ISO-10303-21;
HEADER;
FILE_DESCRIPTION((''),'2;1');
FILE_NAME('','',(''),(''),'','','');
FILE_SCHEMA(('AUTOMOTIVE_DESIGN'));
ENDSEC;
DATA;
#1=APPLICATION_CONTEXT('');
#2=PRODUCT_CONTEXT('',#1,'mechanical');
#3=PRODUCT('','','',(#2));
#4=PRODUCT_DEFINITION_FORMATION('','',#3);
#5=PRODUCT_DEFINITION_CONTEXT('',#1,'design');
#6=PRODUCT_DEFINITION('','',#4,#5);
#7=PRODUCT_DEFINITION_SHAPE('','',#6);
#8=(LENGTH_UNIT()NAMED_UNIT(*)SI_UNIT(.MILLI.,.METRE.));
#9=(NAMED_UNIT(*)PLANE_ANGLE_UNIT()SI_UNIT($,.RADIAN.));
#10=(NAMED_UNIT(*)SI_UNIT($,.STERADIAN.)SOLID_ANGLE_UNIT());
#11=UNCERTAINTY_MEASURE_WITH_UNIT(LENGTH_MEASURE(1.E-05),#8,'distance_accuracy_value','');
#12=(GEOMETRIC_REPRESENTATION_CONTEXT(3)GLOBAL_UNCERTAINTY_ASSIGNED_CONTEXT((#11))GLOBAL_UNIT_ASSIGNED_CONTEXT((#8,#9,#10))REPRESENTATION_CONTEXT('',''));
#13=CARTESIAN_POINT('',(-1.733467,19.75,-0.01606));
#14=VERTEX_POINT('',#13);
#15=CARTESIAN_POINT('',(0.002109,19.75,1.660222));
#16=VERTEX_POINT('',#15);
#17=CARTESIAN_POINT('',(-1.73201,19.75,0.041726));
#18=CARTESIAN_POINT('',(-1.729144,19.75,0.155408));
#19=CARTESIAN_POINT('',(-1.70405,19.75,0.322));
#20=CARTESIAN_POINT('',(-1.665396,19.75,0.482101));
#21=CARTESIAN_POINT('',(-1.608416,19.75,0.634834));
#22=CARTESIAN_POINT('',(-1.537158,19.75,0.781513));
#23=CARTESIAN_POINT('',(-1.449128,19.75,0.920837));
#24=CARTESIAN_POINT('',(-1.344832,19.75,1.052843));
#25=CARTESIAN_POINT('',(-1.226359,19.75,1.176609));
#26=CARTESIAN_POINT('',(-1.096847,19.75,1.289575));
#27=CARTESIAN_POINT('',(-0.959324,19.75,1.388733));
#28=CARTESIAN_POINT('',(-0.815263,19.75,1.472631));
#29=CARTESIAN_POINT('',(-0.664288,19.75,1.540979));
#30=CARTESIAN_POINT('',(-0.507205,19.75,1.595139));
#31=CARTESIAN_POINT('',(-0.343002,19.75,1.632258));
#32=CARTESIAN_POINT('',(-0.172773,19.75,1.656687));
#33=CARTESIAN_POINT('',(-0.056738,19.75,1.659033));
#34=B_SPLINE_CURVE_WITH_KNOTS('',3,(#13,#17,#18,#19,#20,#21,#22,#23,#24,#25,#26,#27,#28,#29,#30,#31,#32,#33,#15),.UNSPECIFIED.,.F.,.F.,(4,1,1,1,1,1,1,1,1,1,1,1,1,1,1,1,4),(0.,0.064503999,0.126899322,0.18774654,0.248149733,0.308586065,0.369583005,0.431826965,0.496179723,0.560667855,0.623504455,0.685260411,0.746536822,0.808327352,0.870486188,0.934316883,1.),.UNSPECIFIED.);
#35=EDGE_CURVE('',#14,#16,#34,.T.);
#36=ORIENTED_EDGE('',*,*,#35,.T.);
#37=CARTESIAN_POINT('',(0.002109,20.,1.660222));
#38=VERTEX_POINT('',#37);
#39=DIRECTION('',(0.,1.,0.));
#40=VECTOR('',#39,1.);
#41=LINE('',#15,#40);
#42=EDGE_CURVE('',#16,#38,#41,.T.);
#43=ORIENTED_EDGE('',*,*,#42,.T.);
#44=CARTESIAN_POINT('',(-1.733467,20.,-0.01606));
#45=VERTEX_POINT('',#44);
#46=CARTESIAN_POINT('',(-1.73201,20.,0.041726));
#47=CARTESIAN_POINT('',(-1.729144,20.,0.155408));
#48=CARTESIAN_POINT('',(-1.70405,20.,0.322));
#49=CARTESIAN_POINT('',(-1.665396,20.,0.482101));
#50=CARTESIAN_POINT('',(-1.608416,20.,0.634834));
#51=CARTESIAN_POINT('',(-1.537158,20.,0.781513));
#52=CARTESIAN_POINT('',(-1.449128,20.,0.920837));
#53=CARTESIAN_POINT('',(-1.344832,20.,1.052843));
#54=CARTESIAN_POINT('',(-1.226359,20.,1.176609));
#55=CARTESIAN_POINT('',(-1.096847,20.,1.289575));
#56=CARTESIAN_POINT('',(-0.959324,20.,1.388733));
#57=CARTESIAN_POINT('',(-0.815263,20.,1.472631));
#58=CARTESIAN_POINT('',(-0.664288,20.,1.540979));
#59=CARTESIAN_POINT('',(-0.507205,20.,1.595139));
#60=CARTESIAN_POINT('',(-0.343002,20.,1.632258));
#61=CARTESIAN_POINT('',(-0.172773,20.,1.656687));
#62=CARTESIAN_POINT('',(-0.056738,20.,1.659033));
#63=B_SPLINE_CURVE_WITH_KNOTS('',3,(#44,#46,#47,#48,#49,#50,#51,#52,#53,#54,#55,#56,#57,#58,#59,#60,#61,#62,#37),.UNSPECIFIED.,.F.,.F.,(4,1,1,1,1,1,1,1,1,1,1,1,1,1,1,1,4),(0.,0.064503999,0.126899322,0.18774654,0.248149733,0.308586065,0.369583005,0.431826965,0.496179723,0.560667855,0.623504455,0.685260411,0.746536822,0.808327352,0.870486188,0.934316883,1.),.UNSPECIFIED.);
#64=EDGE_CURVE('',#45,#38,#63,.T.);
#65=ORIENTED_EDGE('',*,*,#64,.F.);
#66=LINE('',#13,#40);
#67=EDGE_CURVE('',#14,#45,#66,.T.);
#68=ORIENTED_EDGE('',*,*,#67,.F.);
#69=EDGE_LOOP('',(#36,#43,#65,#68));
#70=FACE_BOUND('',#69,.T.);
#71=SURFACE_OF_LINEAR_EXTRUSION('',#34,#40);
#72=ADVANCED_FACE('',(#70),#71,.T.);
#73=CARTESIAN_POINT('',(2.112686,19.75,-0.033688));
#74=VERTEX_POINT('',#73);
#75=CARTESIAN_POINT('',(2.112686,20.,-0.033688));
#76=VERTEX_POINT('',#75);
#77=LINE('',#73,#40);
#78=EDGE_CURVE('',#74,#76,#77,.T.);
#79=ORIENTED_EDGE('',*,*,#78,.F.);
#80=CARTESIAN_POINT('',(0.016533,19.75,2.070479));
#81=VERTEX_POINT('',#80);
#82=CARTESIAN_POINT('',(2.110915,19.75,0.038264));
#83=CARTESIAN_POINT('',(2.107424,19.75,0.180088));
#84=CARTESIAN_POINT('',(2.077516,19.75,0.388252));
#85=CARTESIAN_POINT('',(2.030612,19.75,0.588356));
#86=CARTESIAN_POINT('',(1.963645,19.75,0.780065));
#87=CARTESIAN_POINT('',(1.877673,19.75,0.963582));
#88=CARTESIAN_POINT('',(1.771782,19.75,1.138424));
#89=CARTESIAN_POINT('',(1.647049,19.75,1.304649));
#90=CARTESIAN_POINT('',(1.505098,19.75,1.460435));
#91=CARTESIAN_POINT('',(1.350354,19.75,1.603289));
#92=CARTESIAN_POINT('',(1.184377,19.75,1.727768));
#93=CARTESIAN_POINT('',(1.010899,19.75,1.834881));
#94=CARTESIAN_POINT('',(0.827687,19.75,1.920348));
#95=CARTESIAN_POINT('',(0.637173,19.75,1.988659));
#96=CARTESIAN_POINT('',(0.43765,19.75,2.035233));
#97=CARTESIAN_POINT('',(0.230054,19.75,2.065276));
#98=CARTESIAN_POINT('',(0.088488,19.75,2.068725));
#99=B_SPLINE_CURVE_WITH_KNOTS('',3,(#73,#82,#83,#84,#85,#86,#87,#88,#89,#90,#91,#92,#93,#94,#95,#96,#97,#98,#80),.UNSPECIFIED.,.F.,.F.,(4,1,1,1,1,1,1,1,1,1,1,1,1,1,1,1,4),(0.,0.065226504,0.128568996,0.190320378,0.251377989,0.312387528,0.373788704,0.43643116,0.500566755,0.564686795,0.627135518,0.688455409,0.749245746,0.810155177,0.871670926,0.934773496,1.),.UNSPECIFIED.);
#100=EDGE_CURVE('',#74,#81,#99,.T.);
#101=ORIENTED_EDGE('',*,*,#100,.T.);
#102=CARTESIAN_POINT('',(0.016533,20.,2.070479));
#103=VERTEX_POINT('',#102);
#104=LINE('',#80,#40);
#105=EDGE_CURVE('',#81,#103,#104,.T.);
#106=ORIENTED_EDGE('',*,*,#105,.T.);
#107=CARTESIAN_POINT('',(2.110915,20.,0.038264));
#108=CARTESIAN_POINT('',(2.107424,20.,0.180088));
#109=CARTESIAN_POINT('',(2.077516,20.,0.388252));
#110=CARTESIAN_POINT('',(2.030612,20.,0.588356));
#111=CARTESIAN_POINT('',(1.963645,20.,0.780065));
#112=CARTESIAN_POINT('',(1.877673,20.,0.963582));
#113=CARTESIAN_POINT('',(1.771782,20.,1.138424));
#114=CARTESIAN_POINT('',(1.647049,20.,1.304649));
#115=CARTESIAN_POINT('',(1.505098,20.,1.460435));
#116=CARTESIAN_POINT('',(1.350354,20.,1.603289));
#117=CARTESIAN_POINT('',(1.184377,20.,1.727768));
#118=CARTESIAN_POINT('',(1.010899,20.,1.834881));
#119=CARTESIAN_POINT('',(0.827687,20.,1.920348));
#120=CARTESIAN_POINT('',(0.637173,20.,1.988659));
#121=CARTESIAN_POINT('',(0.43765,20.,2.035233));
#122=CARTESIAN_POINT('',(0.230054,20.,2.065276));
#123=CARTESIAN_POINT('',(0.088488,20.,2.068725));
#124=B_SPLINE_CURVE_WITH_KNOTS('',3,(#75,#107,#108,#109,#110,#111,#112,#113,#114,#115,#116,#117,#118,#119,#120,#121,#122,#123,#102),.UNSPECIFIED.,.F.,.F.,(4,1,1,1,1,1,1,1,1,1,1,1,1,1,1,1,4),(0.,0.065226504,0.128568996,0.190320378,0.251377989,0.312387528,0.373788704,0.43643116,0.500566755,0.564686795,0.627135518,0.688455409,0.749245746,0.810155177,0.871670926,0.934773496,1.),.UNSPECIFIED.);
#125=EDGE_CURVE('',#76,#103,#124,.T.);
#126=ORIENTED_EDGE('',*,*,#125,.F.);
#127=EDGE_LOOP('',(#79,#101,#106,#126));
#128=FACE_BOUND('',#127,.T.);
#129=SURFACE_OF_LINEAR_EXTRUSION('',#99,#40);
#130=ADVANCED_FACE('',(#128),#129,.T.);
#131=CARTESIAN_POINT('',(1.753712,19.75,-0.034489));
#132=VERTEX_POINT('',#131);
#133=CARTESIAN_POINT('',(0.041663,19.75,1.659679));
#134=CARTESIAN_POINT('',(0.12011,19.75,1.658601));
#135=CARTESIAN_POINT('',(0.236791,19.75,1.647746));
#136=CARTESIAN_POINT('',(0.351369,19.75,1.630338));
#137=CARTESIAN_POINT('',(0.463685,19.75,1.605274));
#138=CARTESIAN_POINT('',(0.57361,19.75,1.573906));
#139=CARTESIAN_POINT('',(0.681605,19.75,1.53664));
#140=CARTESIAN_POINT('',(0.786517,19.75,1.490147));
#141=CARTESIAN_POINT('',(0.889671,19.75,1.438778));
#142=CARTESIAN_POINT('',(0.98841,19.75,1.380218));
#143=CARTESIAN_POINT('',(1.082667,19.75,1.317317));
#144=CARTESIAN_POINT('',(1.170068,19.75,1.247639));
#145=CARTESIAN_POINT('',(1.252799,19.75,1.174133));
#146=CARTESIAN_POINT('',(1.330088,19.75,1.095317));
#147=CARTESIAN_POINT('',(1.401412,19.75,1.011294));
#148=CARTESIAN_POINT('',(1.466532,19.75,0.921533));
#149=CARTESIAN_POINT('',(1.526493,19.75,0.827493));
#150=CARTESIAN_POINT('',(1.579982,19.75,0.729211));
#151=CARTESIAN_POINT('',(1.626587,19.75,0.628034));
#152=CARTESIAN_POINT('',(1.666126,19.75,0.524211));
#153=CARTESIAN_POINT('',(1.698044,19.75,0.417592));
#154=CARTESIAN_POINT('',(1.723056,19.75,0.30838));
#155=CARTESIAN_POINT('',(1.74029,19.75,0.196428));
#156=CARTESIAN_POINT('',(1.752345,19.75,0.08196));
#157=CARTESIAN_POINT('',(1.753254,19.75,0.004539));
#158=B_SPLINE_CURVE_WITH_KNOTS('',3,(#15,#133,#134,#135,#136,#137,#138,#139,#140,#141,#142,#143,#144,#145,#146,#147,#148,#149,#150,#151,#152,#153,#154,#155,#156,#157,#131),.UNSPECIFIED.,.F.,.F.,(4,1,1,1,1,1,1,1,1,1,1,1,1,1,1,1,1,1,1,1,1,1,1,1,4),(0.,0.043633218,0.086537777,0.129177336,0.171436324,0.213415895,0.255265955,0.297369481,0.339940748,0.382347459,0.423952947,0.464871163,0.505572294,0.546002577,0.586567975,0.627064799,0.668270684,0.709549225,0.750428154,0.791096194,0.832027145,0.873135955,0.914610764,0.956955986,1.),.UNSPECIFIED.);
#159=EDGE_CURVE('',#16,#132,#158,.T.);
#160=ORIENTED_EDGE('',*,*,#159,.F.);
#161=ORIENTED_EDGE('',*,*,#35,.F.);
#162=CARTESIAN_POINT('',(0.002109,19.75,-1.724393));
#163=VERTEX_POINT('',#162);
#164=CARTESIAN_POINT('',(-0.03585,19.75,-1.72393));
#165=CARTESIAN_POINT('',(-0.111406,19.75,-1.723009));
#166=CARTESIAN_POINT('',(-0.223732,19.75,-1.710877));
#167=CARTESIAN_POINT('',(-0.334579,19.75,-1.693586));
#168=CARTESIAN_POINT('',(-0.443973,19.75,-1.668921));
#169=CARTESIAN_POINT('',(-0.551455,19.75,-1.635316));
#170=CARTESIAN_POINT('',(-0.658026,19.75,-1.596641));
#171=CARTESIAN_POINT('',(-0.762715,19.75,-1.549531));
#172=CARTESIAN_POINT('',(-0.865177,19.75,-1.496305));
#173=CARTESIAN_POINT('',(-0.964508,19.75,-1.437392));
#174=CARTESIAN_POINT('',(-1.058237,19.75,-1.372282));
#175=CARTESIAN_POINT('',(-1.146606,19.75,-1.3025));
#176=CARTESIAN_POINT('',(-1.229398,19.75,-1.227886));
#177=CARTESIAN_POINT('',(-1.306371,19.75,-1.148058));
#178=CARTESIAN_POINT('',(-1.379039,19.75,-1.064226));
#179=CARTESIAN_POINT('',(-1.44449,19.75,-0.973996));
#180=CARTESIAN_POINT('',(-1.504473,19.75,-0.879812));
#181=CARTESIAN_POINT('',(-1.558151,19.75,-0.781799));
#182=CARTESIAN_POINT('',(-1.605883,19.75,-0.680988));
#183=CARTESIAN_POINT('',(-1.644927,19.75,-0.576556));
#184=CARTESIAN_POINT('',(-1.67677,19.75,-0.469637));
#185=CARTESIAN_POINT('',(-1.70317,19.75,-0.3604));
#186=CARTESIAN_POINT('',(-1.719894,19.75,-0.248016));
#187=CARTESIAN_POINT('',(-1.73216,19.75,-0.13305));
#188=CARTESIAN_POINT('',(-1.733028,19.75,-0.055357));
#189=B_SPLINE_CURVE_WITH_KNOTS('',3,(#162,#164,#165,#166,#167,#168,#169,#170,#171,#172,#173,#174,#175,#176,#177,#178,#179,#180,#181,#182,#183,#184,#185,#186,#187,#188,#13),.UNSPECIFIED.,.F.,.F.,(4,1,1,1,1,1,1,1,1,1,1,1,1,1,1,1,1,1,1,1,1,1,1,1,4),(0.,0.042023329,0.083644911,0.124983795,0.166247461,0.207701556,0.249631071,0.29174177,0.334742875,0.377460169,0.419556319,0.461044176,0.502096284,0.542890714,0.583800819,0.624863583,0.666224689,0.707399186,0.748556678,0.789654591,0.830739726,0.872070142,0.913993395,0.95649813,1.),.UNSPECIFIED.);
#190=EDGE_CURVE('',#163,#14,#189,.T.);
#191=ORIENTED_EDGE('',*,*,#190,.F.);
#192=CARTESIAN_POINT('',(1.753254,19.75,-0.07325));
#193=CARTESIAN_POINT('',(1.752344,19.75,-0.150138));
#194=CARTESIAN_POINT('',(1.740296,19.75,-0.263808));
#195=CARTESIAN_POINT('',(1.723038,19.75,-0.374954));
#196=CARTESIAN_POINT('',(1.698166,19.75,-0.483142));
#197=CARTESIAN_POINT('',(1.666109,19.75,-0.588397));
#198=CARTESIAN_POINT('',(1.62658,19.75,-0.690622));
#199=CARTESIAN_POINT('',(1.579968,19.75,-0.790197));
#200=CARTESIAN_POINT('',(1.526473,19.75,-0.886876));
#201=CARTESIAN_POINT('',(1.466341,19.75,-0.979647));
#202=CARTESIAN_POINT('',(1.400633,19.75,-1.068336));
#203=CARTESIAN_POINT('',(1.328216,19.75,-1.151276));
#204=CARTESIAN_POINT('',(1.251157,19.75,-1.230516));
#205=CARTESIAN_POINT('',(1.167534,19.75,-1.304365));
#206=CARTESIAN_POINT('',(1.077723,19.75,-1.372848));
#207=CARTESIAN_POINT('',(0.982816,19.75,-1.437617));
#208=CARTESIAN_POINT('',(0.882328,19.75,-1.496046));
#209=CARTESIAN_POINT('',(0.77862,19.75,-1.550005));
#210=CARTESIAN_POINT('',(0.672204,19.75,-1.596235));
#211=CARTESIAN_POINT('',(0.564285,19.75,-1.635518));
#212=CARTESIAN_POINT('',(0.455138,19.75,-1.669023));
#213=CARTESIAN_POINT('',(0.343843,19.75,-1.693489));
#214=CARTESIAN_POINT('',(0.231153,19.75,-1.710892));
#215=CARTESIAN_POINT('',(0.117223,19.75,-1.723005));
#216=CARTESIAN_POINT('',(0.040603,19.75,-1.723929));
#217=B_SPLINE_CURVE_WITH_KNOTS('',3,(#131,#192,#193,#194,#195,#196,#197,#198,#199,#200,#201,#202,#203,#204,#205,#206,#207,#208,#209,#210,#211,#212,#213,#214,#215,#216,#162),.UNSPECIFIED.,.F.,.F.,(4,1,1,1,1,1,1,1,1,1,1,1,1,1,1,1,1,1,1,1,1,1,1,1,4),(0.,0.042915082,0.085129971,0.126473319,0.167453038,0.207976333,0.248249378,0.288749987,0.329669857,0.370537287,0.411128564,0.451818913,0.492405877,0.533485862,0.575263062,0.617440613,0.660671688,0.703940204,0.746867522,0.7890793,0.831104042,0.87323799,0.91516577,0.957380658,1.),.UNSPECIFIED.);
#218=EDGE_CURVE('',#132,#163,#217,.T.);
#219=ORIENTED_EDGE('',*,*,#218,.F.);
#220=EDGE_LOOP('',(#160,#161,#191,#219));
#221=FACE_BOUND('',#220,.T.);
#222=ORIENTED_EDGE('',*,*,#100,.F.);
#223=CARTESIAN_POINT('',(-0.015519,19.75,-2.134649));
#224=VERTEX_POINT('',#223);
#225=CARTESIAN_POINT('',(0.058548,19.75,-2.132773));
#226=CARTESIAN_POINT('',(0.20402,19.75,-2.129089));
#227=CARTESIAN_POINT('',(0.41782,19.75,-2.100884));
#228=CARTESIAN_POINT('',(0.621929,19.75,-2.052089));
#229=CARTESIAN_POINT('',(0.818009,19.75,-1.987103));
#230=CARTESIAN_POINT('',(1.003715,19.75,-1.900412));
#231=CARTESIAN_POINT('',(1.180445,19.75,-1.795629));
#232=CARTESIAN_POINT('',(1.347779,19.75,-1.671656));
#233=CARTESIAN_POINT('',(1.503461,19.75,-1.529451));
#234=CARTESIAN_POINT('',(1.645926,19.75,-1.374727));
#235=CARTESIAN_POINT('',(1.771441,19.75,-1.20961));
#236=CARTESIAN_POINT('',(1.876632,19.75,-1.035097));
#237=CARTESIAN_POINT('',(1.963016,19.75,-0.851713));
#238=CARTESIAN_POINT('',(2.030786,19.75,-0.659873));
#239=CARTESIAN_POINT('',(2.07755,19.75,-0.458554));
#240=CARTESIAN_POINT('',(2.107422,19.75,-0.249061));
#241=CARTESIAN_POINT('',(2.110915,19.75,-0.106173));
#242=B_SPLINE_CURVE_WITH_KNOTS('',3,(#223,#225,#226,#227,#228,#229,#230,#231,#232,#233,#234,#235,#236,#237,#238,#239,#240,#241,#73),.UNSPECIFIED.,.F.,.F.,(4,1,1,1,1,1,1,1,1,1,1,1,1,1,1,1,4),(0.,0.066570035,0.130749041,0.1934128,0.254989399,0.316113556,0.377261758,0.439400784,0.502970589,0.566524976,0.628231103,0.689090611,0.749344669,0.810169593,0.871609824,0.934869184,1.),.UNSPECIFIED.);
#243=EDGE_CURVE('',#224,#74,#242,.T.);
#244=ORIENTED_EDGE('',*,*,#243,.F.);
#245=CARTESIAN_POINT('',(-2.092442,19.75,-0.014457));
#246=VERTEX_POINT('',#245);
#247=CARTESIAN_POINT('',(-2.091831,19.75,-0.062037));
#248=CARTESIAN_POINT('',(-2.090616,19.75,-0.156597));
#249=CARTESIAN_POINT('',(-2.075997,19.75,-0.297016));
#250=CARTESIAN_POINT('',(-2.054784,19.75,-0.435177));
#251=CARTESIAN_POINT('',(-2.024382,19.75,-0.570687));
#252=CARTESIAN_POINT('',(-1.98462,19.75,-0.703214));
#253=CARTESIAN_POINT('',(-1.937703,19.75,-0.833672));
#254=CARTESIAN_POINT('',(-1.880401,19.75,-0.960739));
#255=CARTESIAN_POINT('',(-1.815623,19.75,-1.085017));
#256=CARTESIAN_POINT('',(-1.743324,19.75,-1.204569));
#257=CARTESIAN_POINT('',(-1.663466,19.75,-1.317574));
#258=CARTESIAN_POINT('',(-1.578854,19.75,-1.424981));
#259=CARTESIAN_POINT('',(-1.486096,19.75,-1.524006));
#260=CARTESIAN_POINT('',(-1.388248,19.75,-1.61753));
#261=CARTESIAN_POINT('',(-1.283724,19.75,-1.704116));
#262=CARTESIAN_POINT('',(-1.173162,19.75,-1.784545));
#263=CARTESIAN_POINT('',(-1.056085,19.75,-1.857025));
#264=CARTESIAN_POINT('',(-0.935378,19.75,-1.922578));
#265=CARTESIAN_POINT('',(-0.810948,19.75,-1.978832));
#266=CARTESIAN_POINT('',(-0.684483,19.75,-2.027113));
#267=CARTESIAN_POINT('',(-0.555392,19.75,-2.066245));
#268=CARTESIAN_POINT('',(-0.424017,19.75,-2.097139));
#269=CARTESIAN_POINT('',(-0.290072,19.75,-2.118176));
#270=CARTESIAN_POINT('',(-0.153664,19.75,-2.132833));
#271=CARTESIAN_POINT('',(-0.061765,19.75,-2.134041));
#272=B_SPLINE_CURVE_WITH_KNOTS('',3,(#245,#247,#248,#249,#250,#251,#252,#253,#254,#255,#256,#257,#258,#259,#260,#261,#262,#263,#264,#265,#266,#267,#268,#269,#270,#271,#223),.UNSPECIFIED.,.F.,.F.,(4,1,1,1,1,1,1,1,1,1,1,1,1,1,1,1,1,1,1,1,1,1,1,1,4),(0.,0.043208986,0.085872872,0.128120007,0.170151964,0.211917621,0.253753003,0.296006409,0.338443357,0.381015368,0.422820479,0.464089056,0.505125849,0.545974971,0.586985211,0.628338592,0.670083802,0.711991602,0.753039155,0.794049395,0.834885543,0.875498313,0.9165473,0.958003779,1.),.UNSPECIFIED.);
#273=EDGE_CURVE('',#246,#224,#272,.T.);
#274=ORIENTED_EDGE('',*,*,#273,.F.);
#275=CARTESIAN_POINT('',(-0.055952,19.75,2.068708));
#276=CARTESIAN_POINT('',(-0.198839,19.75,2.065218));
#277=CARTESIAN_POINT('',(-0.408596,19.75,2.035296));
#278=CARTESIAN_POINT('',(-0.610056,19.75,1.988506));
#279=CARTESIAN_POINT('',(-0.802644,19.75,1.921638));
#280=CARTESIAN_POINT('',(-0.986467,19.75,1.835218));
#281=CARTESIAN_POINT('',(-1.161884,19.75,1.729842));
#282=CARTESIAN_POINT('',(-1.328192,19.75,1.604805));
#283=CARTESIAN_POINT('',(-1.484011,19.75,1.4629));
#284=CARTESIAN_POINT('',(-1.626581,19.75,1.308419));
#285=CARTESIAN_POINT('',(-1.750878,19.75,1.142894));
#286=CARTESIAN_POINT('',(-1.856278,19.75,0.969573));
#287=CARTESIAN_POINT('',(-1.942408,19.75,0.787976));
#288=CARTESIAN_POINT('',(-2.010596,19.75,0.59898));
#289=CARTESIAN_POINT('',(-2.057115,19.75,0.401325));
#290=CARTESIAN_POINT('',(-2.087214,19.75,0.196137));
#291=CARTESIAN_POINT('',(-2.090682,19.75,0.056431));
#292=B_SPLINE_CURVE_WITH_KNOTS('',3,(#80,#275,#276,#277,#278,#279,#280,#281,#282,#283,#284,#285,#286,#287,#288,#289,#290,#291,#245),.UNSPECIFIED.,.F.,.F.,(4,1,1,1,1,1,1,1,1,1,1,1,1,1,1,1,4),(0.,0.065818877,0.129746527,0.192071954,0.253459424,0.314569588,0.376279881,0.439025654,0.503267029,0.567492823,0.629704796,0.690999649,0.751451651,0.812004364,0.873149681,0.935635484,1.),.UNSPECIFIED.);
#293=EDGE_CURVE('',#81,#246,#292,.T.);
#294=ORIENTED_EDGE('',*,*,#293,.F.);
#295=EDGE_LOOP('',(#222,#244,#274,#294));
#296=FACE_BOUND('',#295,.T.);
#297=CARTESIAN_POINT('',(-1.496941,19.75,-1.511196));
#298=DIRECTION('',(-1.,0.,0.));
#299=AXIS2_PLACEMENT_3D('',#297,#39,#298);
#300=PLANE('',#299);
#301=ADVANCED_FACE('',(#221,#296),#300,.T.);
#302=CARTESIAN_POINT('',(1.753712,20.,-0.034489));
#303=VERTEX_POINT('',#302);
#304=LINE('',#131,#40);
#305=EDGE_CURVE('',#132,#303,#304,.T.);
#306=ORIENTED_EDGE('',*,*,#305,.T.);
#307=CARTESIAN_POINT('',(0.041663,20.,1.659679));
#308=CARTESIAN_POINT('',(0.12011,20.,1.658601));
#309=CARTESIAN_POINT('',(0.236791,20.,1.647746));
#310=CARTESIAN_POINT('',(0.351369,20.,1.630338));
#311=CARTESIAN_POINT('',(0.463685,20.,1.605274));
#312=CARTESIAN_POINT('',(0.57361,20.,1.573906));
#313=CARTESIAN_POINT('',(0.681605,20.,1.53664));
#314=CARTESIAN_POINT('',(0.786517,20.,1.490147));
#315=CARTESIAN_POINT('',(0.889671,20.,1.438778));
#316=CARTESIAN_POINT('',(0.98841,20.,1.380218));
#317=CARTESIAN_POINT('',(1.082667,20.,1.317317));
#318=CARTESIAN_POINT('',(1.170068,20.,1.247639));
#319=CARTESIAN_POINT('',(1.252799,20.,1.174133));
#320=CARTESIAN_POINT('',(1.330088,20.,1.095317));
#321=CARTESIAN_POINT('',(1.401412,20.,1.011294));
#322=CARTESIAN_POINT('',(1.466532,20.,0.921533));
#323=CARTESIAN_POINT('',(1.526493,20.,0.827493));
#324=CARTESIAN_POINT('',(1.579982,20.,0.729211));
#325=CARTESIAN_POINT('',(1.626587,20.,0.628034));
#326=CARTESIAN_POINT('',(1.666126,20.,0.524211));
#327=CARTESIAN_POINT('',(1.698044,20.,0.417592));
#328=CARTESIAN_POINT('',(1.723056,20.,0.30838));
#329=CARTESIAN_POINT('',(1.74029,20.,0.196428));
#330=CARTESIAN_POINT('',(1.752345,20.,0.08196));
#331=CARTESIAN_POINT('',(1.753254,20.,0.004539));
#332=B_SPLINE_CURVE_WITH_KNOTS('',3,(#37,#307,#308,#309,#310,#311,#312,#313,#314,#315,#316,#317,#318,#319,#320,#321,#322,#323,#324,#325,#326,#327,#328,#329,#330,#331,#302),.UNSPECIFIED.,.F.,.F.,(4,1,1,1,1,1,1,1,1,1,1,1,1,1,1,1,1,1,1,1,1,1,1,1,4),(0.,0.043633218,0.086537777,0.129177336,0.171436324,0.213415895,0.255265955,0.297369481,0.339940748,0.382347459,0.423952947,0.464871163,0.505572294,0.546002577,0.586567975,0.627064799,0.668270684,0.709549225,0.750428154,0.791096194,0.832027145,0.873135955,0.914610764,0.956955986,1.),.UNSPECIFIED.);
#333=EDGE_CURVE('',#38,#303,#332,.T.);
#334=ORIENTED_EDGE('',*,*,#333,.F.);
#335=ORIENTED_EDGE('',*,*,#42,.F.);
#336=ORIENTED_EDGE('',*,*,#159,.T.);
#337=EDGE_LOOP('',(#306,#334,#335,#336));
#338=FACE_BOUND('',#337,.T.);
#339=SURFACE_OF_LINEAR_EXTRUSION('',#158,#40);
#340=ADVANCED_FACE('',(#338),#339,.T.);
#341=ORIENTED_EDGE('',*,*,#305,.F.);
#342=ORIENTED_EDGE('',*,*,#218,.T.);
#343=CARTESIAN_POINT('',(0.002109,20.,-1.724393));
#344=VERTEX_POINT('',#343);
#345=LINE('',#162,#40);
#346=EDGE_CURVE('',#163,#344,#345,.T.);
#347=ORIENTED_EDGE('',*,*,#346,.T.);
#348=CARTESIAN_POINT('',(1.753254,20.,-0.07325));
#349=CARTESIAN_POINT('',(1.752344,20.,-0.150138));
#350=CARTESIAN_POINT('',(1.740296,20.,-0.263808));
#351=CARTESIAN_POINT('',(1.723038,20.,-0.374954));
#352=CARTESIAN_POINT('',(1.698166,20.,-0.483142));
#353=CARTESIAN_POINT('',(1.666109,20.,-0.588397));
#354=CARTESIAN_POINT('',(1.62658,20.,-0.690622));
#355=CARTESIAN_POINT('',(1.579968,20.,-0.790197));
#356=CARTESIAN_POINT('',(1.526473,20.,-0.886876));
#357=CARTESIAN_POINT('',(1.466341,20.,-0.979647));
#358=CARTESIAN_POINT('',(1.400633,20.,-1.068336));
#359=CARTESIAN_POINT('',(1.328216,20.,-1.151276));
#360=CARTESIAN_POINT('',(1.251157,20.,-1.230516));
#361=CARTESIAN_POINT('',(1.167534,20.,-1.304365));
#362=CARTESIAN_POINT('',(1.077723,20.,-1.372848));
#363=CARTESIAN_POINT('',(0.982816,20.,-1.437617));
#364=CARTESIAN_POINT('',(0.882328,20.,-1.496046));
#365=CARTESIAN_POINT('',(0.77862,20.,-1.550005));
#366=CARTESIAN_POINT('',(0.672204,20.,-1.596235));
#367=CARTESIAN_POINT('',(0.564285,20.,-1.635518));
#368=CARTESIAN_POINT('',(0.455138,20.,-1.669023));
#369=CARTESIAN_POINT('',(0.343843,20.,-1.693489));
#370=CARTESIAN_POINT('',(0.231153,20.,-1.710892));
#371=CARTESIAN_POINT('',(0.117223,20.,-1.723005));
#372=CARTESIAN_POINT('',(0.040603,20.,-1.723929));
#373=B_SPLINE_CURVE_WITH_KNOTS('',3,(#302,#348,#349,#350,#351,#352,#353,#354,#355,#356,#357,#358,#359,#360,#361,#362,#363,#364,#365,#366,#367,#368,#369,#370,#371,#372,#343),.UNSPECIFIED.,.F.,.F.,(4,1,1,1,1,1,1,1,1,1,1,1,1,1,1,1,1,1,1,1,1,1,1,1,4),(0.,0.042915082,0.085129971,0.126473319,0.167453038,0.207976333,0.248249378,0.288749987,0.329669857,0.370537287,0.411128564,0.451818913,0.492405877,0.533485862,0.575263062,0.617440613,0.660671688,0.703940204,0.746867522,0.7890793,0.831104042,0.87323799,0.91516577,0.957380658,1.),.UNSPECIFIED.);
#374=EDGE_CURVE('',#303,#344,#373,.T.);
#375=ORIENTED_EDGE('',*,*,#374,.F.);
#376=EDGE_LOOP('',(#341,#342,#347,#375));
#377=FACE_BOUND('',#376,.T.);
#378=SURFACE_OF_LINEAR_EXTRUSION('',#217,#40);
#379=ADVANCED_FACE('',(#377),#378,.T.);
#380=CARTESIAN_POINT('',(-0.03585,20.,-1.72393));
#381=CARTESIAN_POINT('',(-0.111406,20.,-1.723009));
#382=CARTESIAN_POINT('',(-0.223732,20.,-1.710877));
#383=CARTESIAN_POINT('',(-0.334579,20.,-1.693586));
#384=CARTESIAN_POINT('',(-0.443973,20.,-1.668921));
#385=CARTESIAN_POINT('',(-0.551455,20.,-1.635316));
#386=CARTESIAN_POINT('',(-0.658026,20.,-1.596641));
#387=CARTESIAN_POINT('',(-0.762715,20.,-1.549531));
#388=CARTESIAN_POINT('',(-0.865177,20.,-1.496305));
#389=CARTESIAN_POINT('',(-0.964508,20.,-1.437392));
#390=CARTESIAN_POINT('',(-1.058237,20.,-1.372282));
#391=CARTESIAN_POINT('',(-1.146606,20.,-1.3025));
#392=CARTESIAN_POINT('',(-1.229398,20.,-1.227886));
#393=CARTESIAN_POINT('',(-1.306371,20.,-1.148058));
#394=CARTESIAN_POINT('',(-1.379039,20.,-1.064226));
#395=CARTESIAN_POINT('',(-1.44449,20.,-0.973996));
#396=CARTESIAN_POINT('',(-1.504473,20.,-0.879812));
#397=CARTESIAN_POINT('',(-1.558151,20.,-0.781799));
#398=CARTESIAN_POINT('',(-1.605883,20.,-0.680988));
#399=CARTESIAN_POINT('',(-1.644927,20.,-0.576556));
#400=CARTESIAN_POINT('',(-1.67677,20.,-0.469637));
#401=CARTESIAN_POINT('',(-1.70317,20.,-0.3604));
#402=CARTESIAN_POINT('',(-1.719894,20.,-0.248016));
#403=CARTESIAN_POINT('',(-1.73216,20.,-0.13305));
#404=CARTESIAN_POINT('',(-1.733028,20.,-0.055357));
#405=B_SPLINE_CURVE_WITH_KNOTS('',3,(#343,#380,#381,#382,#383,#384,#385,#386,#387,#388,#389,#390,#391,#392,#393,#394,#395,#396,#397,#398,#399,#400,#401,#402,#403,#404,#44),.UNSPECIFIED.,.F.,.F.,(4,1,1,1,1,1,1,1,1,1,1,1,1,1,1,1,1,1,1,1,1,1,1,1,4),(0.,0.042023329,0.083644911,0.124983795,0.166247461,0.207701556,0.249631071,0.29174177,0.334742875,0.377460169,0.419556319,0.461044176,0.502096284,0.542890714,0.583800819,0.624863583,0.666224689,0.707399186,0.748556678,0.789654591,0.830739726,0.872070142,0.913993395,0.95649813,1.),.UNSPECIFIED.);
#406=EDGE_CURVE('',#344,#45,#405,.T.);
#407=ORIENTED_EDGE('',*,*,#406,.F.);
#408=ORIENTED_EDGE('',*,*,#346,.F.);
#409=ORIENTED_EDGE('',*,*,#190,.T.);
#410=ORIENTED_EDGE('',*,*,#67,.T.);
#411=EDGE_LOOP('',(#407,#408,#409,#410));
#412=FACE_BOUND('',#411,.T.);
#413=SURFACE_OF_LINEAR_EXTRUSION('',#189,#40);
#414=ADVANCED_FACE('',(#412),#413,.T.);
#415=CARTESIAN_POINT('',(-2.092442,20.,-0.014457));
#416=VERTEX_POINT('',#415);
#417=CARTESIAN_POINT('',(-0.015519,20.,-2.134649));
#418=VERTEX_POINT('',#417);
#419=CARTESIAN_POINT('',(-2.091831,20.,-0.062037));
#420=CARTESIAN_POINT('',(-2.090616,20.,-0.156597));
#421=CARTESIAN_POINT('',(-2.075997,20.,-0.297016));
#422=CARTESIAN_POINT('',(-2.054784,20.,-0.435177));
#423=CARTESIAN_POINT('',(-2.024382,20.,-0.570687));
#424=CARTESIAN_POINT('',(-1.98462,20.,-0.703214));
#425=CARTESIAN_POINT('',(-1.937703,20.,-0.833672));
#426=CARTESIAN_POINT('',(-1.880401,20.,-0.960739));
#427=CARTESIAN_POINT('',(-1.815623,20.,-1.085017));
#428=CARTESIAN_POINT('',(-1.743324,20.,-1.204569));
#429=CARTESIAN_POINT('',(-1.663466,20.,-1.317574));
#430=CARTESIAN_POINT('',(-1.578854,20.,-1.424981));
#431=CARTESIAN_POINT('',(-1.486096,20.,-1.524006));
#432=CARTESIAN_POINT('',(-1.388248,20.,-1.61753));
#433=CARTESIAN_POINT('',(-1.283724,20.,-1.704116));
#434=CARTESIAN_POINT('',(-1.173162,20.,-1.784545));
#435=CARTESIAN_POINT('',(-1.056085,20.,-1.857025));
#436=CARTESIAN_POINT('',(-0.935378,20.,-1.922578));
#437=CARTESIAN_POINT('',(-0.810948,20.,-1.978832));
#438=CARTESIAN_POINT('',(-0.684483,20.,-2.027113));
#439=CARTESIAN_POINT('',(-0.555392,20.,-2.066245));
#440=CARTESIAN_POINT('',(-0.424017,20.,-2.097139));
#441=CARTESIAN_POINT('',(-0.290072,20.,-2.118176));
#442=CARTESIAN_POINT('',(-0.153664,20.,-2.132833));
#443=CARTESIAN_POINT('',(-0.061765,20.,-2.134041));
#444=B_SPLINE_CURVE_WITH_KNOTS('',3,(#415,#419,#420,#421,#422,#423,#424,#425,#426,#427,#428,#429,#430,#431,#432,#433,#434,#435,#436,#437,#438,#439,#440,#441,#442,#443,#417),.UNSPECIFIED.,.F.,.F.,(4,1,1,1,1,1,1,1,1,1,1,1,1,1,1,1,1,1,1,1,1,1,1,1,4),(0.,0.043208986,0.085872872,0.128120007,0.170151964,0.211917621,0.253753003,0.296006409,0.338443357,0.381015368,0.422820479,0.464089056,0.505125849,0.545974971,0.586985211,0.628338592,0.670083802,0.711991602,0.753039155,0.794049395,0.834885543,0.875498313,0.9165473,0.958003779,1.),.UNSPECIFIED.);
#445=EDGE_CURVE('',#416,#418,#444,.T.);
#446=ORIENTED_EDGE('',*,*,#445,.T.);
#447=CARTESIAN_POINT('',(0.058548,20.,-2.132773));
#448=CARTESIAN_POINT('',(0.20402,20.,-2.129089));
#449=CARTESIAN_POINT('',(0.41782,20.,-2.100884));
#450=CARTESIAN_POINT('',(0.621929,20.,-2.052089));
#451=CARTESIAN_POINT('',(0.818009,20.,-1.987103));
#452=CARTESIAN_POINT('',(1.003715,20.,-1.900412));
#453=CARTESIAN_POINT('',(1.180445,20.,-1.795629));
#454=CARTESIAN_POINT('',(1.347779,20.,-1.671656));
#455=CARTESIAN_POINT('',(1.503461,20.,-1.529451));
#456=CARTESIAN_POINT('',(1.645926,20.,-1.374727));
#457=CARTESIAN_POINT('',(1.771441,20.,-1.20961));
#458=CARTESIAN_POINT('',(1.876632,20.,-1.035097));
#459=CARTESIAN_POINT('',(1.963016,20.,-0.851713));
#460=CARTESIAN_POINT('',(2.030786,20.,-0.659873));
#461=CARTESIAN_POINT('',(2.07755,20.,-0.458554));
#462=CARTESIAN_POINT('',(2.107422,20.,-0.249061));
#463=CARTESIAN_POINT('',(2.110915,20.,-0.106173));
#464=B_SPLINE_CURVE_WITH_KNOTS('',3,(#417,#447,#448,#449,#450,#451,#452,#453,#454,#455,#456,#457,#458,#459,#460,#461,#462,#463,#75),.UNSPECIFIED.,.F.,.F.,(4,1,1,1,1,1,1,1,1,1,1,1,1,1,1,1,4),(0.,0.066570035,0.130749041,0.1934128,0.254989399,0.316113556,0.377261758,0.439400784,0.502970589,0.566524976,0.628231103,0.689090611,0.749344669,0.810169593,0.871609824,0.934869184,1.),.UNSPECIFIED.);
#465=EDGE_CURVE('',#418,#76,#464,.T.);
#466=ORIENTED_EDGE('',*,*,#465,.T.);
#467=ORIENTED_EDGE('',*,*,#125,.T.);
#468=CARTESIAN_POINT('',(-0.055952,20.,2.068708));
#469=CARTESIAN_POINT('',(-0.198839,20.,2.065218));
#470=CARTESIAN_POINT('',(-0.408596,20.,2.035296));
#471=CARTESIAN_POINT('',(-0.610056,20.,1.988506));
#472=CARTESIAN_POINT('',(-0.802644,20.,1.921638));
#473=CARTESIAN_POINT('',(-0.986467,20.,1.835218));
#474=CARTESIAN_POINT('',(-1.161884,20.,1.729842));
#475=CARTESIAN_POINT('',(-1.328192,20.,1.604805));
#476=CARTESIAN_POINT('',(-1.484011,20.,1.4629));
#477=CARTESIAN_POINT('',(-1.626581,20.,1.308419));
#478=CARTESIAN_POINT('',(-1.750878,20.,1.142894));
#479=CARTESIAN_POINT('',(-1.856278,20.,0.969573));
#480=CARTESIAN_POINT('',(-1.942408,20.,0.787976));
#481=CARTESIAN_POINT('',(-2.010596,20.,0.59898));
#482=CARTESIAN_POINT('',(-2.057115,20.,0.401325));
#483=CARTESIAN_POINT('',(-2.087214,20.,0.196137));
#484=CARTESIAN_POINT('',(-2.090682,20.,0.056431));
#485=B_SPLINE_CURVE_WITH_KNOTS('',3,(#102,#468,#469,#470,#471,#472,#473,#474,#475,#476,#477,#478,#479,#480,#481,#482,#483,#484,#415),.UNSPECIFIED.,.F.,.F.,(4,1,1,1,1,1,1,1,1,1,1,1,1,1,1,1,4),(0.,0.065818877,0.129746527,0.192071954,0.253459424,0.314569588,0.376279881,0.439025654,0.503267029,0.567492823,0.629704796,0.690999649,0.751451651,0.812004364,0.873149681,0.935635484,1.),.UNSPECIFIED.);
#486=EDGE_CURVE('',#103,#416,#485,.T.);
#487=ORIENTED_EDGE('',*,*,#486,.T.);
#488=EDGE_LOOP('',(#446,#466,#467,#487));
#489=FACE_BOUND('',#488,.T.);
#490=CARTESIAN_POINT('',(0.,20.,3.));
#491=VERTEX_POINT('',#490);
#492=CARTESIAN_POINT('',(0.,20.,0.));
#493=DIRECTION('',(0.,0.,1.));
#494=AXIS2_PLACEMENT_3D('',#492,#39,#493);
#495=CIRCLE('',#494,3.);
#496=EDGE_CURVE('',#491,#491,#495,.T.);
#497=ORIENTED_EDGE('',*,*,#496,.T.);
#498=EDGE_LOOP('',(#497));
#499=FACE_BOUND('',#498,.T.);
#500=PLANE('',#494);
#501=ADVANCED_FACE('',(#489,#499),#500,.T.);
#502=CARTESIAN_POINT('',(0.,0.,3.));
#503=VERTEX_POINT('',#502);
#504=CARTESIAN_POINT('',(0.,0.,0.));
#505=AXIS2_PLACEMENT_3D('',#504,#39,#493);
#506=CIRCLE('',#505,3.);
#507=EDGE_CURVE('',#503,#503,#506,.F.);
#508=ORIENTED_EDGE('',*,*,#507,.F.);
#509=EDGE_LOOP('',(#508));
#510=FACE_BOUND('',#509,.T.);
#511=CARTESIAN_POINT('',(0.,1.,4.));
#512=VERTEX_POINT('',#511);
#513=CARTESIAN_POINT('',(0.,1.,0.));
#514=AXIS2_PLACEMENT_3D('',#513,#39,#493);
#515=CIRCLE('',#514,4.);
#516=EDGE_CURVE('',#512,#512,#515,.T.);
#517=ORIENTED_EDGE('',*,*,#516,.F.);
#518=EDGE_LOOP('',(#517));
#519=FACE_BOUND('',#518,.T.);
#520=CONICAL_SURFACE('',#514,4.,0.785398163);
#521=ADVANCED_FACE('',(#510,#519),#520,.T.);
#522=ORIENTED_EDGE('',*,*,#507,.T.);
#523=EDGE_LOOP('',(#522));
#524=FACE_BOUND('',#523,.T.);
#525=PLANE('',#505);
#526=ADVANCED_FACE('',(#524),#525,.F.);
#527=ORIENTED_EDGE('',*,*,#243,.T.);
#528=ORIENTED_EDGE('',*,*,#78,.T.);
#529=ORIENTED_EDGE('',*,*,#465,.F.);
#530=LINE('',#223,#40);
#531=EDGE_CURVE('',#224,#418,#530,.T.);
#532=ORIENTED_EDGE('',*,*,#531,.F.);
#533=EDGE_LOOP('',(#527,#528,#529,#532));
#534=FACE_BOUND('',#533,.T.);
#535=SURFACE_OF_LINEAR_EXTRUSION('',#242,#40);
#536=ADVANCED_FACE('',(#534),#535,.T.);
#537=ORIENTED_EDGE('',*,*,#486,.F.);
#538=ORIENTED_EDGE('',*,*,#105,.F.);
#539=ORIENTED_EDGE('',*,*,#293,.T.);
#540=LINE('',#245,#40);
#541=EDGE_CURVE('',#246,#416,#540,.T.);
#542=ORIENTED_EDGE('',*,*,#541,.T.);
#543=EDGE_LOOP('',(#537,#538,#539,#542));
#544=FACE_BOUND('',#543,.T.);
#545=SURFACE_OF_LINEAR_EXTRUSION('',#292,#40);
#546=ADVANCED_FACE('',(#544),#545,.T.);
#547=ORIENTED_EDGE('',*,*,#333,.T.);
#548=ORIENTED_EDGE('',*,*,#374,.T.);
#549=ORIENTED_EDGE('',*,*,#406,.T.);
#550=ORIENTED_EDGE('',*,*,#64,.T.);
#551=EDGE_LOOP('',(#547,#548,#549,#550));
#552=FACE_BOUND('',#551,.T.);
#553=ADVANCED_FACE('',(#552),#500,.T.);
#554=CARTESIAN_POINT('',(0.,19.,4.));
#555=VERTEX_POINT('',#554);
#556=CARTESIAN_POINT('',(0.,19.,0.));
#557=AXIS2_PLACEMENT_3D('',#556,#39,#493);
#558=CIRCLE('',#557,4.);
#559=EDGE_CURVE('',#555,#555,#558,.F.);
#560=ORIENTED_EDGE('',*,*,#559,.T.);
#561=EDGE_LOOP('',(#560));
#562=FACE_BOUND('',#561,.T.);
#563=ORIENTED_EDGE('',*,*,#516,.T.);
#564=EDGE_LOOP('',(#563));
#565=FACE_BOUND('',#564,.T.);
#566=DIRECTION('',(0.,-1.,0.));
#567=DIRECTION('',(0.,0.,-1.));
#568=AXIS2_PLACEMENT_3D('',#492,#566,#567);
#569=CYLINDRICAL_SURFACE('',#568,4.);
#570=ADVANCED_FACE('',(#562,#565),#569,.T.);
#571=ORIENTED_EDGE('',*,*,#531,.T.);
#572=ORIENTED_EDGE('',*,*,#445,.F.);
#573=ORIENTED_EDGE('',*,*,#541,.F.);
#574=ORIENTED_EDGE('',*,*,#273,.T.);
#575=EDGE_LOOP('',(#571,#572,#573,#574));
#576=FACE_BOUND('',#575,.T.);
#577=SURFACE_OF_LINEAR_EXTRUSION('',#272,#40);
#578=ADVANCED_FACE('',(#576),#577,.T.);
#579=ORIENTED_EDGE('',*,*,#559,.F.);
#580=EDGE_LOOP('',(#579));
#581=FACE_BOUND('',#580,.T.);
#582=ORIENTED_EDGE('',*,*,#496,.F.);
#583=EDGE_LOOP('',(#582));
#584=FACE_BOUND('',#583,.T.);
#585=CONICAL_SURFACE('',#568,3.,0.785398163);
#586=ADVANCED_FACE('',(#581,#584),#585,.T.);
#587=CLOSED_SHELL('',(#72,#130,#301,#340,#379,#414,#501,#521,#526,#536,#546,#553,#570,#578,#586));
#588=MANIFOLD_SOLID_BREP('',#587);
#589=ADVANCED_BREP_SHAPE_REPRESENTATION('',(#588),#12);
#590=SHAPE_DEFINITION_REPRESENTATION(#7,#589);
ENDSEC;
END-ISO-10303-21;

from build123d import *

# Parameters (mm, degrees)
CROQUIS1_R              = 4
SALIENTE_EXTRUIR1_DEPTH = 20
CHAFL_N1_SIZE           = 1
CORTAR_EXTRUIR2_DEPTH   = 0.25


with BuildPart() as part:
    # Croquis1 → Saliente-Extruir1 (new body)
    with BuildSketch(Plane(origin=(0, 0, 0), x_dir=(1, 0, 0), z_dir=(0, 1, 0))):
        Circle(CROQUIS1_R)
    extrude(amount=SALIENTE_EXTRUIR1_DEPTH)

    # Chaflán1
    chafl_n1_edges = [part.edges().sort_by_distance(p)[0] for p in [
        (-4, 0, 0),
        (-4, 20, 0),
    ]]
    chamfer(chafl_n1_edges, length=CHAFL_N1_SIZE)

    # Croquis4 → Cortar-Extruir2 (cut)
    with BuildSketch(Plane(origin=(0, 20, 0), x_dir=(1, 0, 0), z_dir=(0, 1, 0))):
        with BuildLine():
            add(Edge.make_bspline(
                [(-0.015518725, 2.134649306), (0.058547681, 2.13277333), (0.204020215, 2.129088757), (0.417820098, 2.100884068), (0.621928779, 2.052089336), (0.818008937, 1.98710307), (1.003715196, 1.900412344), (1.180445359, 1.795629318), (1.347778929, 1.671656222), (1.503460508, 1.529451391), (1.645925594, 1.374727444), (1.771440893, 1.209609832), (1.876632085, 1.035096915), (1.963015842, 0.851713109), (2.030785682, 0.659873146), (2.077550303, 0.458554285), (2.107422475, 0.249060925), (2.110914792, 0.10617308), (2.112686403, 0.033687768)],
                knots=[0, 0, 0, 0, 0.000222163, 0.000436347, 0.000645474, 0.000850973, 0.001054962, 0.001259031, 0.001466406, 0.001678557, 0.001890656, 0.002096587, 0.002299693, 0.002500778, 0.002703768, 0.002908812, 0.003119927, 0.003337287, 0.003337287, 0.003337287, 0.003337287], degree=3))
            add(Edge.make_bspline(
                [(2.112686403, 0.033687768), (2.110915051, -0.0382636), (2.107423512, -0.18008808), (2.077516338, -0.388252016), (2.030612338, -0.588355669), (1.963645177, -0.780064987), (1.877673201, -0.963582203), (1.771781577, -1.138424436), (1.647048765, -1.304649005), (1.505098078, -1.460434908), (1.35035403, -1.60328916), (1.184376582, -1.727767875), (1.010898502, -1.834881161), (0.827687407, -1.920348217), (0.63717308, -1.988658983), (0.437650425, -2.035233417), (0.230054363, -2.065275752), (0.088487501, -2.068725485), (0.016532557, -2.070478899)],
                knots=[0, 0, 0, 0, 0.000215759, 0.000425286, 0.000629551, 0.00083152, 0.00103333, 0.001236435, 0.001443647, 0.001655798, 0.001867897, 0.002074468, 0.002277305, 0.00247839, 0.002679869, 0.002883353, 0.003092087, 0.003307846, 0.003307846, 0.003307846, 0.003307846], degree=3))
            add(Edge.make_bspline(
                [(0.016532557, -2.070478899), (-0.055952379, -2.068708171), (-0.198839483, -2.065217595), (-0.408596095, -2.03529599), (-0.610056374, -1.988505928), (-0.802644204, -1.921638001), (-0.98646698, -1.835218309), (-1.161884218, -1.729841876), (-1.328191815, -1.604805143), (-1.484010953, -1.462900486), (-1.626581466, -1.308418712), (-1.750877895, -1.142893849), (-1.856278024, -0.969573328), (-1.942407547, -0.787976157), (-2.010595501, -0.598980223), (-2.057115293, -0.40132482), (-2.087213524, -0.196136813), (-2.09068192, -0.056430644), (-2.092441802, 0.014456999)],
                knots=[0, 0, 0, 0, 0.00021736, 0.000428475, 0.000634298, 0.000837024, 0.001038834, 0.001242626, 0.001449838, 0.001661989, 0.001874088, 0.002079537, 0.002281957, 0.002481593, 0.002681563, 0.002883489, 0.003089842, 0.003302399, 0.003302399, 0.003302399, 0.003302399], degree=3))
            add(Edge.make_bspline(
                [(-2.092441802, 0.014456999), (-2.09183079, 0.062037192), (-2.090616474, 0.156597333), (-2.075997397, 0.297016305), (-2.054784025, 0.435177056), (-2.024381839, 0.570686711), (-1.984619934, 0.703213551), (-1.937703331, 0.833671565), (-1.88040065, 0.960738678), (-1.815622767, 1.08501684), (-1.743323558, 1.204568733), (-1.663465558, 1.317573971), (-1.578853709, 1.424980824), (-1.486095545, 1.524005971), (-1.388248179, 1.61753015), (-1.283724318, 1.704116112), (-1.173161753, 1.784544628), (-1.056084748, 1.857025017), (-0.935378148, 1.922578314), (-0.810947544, 1.978831858), (-0.684482891, 2.027113071), (-0.555391865, 2.066245443), (-0.424017268, 2.097139198), (-0.290072372, 2.118176174), (-0.153663885, 2.132832537), (-0.061765234, 2.134041111), (-0.015518725, 2.134649306)],
                knots=[0, 0, 0, 0, 0.000142684, 0.000283569, 0.000423077, 0.000561875, 0.000699793, 0.000837942, 0.000977471, 0.001117606, 0.001258187, 0.001396235, 0.001532512, 0.001668024, 0.001802915, 0.001938339, 0.002074896, 0.002212747, 0.002351135, 0.002486682, 0.002622105, 0.002756954, 0.002891065, 0.003026617, 0.003163515, 0.003302194, 0.003302194, 0.003302194, 0.003302194], degree=3))
        make_face()
        with BuildLine():
            add(Edge.make_bspline(
                [(0.00210948, 1.724392896), (-0.035850101, 1.723930164), (-0.111406368, 1.723009125), (-0.223731552, 1.710876878), (-0.334579476, 1.693585577), (-0.443973033, 1.668920981), (-0.551454507, 1.63531635), (-0.658025754, 1.596641026), (-0.762714958, 1.549531208), (-0.86517651, 1.49630526), (-0.964508024, 1.437392208), (-1.058236826, 1.372281617), (-1.146605562, 1.302500412), (-1.229397867, 1.227885741), (-1.306370635, 1.148057625), (-1.379038865, 1.064226269), (-1.444489816, 0.973995536), (-1.504473332, 0.879812214), (-1.558150864, 0.781798979), (-1.605882698, 0.680987707), (-1.644927279, 0.576556065), (-1.676769995, 0.469637028), (-1.703169779, 0.360399931), (-1.719894263, 0.248016104), (-1.732159817, 0.133050262), (-1.733028212, 0.055356714), (-1.733467443, 0.016059563)],
                knots=[0, 0, 0, 0, 0.000113827, 0.000226566, 0.000338539, 0.000450309, 0.000562594, 0.000676167, 0.000790231, 0.000906707, 0.001022414, 0.001136438, 0.001248815, 0.001360011, 0.00147051, 0.001581322, 0.001692547, 0.001804581, 0.001916109, 0.00202759, 0.002138911, 0.002250197, 0.002362147, 0.002475703, 0.002590835, 0.002708667, 0.002708667, 0.002708667, 0.002708667], degree=3))
            add(Edge.make_bspline(
                [(-1.733467443, 0.016059563), (-1.732010458, -0.041725833), (-1.729144118, -0.155407581), (-1.704049752, -0.321999746), (-1.665396067, -0.482100645), (-1.608416219, -0.634834255), (-1.537158374, -0.781513436), (-1.449127642, -0.920836984), (-1.344831545, -1.052842554), (-1.226358943, -1.176608576), (-1.096847278, -1.28957521), (-0.959324158, -1.388733391), (-0.815262892, -1.472630819), (-0.664287804, -1.540979473), (-0.507204902, -1.595139174), (-0.343001986, -1.632257609), (-0.17277289, -1.656686701), (-0.056737855, -1.659032708), (0.00210948, -1.660222489)],
                knots=[0, 0, 0, 0, 0.000173262, 0.000340861, 0.0005043, 0.000666548, 0.000828884, 0.000992726, 0.001159918, 0.001332774, 0.001505994, 0.001674777, 0.001840658, 0.002005251, 0.002171224, 0.002338187, 0.002509641, 0.002686071, 0.002686071, 0.002686071, 0.002686071], degree=3))
            add(Edge.make_bspline(
                [(0.00210948, -1.660222489), (0.041663196, -1.659679055), (0.120110095, -1.658601263), (0.236790692, -1.647745632), (0.351369219, -1.630337782), (0.463684968, -1.605274175), (0.573610466, -1.573905939), (0.681604527, -1.536639965), (0.786516859, -1.49014716), (0.889670959, -1.438778073), (0.988409521, -1.380217893), (1.082667272, -1.31731715), (1.170068392, -1.247638727), (1.25279876, -1.174132655), (1.330087547, -1.095316829), (1.4014121, -1.011293718), (1.466532251, -0.921532967), (1.52649299, -0.827492504), (1.579982434, -0.729211072), (1.626587118, -0.628034297), (1.666125536, -0.524211315), (1.698043828, -0.417592376), (1.723055784, -0.308379978), (1.740289978, -0.196427888), (1.752345336, -0.081960068), (1.753253996, -0.004538519), (1.753712044, 0.03448905)],
                knots=[0, 0, 0, 0, 0.000118633, 0.000235285, 0.000351216, 0.000466113, 0.00058025, 0.000694035, 0.000808509, 0.000924255, 0.001039553, 0.001152673, 0.001263924, 0.001374585, 0.00148451, 0.001594802, 0.001704908, 0.001816941, 0.001929172, 0.002040317, 0.002150888, 0.002262174, 0.002373943, 0.002486708, 0.002601839, 0.00271887, 0.00271887, 0.00271887, 0.00271887], degree=3))
            add(Edge.make_bspline(
                [(1.753712044, 0.03448905), (1.753253629, 0.073249626), (1.752344279, 0.150138369), (1.740295736, 0.263807876), (1.723037576, 0.374954403), (1.69816591, 0.483141607), (1.666108591, 0.588397064), (1.626580213, 0.690621918), (1.579968443, 0.790196999), (1.526473329, 0.886876195), (1.466340959, 0.979647324), (1.400633253, 1.068335796), (1.328215712, 1.151276071), (1.251157398, 1.230515722), (1.167533529, 1.304364738), (1.077722907, 1.372847619), (0.982815847, 1.437617076), (0.882327578, 1.496046289), (0.778620202, 1.550005412), (0.67220425, 1.59623513), (0.564285279, 1.635517552), (0.455137722, 1.669022655), (0.34384289, 1.693488975), (0.2311528, 1.710892461), (0.117223361, 1.723004902), (0.040602539, 1.723928763), (0.00210948, 1.724392896)],
                knots=[0, 0, 0, 0, 0.00011623, 0.000230564, 0.000342537, 0.000453525, 0.000563278, 0.000672352, 0.000782043, 0.000892869, 0.001003554, 0.00111349, 0.001223695, 0.001333619, 0.001444879, 0.001558028, 0.00167226, 0.001789346, 0.001906533, 0.002022797, 0.002137122, 0.002250941, 0.002365055, 0.002478611, 0.002592945, 0.002708374, 0.002708374, 0.002708374, 0.002708374], degree=3))
        make_face(mode=Mode.SUBTRACT)
    extrude(amount=-CORTAR_EXTRUIR2_DEPTH, mode=Mode.SUBTRACT)


solid = part.part
